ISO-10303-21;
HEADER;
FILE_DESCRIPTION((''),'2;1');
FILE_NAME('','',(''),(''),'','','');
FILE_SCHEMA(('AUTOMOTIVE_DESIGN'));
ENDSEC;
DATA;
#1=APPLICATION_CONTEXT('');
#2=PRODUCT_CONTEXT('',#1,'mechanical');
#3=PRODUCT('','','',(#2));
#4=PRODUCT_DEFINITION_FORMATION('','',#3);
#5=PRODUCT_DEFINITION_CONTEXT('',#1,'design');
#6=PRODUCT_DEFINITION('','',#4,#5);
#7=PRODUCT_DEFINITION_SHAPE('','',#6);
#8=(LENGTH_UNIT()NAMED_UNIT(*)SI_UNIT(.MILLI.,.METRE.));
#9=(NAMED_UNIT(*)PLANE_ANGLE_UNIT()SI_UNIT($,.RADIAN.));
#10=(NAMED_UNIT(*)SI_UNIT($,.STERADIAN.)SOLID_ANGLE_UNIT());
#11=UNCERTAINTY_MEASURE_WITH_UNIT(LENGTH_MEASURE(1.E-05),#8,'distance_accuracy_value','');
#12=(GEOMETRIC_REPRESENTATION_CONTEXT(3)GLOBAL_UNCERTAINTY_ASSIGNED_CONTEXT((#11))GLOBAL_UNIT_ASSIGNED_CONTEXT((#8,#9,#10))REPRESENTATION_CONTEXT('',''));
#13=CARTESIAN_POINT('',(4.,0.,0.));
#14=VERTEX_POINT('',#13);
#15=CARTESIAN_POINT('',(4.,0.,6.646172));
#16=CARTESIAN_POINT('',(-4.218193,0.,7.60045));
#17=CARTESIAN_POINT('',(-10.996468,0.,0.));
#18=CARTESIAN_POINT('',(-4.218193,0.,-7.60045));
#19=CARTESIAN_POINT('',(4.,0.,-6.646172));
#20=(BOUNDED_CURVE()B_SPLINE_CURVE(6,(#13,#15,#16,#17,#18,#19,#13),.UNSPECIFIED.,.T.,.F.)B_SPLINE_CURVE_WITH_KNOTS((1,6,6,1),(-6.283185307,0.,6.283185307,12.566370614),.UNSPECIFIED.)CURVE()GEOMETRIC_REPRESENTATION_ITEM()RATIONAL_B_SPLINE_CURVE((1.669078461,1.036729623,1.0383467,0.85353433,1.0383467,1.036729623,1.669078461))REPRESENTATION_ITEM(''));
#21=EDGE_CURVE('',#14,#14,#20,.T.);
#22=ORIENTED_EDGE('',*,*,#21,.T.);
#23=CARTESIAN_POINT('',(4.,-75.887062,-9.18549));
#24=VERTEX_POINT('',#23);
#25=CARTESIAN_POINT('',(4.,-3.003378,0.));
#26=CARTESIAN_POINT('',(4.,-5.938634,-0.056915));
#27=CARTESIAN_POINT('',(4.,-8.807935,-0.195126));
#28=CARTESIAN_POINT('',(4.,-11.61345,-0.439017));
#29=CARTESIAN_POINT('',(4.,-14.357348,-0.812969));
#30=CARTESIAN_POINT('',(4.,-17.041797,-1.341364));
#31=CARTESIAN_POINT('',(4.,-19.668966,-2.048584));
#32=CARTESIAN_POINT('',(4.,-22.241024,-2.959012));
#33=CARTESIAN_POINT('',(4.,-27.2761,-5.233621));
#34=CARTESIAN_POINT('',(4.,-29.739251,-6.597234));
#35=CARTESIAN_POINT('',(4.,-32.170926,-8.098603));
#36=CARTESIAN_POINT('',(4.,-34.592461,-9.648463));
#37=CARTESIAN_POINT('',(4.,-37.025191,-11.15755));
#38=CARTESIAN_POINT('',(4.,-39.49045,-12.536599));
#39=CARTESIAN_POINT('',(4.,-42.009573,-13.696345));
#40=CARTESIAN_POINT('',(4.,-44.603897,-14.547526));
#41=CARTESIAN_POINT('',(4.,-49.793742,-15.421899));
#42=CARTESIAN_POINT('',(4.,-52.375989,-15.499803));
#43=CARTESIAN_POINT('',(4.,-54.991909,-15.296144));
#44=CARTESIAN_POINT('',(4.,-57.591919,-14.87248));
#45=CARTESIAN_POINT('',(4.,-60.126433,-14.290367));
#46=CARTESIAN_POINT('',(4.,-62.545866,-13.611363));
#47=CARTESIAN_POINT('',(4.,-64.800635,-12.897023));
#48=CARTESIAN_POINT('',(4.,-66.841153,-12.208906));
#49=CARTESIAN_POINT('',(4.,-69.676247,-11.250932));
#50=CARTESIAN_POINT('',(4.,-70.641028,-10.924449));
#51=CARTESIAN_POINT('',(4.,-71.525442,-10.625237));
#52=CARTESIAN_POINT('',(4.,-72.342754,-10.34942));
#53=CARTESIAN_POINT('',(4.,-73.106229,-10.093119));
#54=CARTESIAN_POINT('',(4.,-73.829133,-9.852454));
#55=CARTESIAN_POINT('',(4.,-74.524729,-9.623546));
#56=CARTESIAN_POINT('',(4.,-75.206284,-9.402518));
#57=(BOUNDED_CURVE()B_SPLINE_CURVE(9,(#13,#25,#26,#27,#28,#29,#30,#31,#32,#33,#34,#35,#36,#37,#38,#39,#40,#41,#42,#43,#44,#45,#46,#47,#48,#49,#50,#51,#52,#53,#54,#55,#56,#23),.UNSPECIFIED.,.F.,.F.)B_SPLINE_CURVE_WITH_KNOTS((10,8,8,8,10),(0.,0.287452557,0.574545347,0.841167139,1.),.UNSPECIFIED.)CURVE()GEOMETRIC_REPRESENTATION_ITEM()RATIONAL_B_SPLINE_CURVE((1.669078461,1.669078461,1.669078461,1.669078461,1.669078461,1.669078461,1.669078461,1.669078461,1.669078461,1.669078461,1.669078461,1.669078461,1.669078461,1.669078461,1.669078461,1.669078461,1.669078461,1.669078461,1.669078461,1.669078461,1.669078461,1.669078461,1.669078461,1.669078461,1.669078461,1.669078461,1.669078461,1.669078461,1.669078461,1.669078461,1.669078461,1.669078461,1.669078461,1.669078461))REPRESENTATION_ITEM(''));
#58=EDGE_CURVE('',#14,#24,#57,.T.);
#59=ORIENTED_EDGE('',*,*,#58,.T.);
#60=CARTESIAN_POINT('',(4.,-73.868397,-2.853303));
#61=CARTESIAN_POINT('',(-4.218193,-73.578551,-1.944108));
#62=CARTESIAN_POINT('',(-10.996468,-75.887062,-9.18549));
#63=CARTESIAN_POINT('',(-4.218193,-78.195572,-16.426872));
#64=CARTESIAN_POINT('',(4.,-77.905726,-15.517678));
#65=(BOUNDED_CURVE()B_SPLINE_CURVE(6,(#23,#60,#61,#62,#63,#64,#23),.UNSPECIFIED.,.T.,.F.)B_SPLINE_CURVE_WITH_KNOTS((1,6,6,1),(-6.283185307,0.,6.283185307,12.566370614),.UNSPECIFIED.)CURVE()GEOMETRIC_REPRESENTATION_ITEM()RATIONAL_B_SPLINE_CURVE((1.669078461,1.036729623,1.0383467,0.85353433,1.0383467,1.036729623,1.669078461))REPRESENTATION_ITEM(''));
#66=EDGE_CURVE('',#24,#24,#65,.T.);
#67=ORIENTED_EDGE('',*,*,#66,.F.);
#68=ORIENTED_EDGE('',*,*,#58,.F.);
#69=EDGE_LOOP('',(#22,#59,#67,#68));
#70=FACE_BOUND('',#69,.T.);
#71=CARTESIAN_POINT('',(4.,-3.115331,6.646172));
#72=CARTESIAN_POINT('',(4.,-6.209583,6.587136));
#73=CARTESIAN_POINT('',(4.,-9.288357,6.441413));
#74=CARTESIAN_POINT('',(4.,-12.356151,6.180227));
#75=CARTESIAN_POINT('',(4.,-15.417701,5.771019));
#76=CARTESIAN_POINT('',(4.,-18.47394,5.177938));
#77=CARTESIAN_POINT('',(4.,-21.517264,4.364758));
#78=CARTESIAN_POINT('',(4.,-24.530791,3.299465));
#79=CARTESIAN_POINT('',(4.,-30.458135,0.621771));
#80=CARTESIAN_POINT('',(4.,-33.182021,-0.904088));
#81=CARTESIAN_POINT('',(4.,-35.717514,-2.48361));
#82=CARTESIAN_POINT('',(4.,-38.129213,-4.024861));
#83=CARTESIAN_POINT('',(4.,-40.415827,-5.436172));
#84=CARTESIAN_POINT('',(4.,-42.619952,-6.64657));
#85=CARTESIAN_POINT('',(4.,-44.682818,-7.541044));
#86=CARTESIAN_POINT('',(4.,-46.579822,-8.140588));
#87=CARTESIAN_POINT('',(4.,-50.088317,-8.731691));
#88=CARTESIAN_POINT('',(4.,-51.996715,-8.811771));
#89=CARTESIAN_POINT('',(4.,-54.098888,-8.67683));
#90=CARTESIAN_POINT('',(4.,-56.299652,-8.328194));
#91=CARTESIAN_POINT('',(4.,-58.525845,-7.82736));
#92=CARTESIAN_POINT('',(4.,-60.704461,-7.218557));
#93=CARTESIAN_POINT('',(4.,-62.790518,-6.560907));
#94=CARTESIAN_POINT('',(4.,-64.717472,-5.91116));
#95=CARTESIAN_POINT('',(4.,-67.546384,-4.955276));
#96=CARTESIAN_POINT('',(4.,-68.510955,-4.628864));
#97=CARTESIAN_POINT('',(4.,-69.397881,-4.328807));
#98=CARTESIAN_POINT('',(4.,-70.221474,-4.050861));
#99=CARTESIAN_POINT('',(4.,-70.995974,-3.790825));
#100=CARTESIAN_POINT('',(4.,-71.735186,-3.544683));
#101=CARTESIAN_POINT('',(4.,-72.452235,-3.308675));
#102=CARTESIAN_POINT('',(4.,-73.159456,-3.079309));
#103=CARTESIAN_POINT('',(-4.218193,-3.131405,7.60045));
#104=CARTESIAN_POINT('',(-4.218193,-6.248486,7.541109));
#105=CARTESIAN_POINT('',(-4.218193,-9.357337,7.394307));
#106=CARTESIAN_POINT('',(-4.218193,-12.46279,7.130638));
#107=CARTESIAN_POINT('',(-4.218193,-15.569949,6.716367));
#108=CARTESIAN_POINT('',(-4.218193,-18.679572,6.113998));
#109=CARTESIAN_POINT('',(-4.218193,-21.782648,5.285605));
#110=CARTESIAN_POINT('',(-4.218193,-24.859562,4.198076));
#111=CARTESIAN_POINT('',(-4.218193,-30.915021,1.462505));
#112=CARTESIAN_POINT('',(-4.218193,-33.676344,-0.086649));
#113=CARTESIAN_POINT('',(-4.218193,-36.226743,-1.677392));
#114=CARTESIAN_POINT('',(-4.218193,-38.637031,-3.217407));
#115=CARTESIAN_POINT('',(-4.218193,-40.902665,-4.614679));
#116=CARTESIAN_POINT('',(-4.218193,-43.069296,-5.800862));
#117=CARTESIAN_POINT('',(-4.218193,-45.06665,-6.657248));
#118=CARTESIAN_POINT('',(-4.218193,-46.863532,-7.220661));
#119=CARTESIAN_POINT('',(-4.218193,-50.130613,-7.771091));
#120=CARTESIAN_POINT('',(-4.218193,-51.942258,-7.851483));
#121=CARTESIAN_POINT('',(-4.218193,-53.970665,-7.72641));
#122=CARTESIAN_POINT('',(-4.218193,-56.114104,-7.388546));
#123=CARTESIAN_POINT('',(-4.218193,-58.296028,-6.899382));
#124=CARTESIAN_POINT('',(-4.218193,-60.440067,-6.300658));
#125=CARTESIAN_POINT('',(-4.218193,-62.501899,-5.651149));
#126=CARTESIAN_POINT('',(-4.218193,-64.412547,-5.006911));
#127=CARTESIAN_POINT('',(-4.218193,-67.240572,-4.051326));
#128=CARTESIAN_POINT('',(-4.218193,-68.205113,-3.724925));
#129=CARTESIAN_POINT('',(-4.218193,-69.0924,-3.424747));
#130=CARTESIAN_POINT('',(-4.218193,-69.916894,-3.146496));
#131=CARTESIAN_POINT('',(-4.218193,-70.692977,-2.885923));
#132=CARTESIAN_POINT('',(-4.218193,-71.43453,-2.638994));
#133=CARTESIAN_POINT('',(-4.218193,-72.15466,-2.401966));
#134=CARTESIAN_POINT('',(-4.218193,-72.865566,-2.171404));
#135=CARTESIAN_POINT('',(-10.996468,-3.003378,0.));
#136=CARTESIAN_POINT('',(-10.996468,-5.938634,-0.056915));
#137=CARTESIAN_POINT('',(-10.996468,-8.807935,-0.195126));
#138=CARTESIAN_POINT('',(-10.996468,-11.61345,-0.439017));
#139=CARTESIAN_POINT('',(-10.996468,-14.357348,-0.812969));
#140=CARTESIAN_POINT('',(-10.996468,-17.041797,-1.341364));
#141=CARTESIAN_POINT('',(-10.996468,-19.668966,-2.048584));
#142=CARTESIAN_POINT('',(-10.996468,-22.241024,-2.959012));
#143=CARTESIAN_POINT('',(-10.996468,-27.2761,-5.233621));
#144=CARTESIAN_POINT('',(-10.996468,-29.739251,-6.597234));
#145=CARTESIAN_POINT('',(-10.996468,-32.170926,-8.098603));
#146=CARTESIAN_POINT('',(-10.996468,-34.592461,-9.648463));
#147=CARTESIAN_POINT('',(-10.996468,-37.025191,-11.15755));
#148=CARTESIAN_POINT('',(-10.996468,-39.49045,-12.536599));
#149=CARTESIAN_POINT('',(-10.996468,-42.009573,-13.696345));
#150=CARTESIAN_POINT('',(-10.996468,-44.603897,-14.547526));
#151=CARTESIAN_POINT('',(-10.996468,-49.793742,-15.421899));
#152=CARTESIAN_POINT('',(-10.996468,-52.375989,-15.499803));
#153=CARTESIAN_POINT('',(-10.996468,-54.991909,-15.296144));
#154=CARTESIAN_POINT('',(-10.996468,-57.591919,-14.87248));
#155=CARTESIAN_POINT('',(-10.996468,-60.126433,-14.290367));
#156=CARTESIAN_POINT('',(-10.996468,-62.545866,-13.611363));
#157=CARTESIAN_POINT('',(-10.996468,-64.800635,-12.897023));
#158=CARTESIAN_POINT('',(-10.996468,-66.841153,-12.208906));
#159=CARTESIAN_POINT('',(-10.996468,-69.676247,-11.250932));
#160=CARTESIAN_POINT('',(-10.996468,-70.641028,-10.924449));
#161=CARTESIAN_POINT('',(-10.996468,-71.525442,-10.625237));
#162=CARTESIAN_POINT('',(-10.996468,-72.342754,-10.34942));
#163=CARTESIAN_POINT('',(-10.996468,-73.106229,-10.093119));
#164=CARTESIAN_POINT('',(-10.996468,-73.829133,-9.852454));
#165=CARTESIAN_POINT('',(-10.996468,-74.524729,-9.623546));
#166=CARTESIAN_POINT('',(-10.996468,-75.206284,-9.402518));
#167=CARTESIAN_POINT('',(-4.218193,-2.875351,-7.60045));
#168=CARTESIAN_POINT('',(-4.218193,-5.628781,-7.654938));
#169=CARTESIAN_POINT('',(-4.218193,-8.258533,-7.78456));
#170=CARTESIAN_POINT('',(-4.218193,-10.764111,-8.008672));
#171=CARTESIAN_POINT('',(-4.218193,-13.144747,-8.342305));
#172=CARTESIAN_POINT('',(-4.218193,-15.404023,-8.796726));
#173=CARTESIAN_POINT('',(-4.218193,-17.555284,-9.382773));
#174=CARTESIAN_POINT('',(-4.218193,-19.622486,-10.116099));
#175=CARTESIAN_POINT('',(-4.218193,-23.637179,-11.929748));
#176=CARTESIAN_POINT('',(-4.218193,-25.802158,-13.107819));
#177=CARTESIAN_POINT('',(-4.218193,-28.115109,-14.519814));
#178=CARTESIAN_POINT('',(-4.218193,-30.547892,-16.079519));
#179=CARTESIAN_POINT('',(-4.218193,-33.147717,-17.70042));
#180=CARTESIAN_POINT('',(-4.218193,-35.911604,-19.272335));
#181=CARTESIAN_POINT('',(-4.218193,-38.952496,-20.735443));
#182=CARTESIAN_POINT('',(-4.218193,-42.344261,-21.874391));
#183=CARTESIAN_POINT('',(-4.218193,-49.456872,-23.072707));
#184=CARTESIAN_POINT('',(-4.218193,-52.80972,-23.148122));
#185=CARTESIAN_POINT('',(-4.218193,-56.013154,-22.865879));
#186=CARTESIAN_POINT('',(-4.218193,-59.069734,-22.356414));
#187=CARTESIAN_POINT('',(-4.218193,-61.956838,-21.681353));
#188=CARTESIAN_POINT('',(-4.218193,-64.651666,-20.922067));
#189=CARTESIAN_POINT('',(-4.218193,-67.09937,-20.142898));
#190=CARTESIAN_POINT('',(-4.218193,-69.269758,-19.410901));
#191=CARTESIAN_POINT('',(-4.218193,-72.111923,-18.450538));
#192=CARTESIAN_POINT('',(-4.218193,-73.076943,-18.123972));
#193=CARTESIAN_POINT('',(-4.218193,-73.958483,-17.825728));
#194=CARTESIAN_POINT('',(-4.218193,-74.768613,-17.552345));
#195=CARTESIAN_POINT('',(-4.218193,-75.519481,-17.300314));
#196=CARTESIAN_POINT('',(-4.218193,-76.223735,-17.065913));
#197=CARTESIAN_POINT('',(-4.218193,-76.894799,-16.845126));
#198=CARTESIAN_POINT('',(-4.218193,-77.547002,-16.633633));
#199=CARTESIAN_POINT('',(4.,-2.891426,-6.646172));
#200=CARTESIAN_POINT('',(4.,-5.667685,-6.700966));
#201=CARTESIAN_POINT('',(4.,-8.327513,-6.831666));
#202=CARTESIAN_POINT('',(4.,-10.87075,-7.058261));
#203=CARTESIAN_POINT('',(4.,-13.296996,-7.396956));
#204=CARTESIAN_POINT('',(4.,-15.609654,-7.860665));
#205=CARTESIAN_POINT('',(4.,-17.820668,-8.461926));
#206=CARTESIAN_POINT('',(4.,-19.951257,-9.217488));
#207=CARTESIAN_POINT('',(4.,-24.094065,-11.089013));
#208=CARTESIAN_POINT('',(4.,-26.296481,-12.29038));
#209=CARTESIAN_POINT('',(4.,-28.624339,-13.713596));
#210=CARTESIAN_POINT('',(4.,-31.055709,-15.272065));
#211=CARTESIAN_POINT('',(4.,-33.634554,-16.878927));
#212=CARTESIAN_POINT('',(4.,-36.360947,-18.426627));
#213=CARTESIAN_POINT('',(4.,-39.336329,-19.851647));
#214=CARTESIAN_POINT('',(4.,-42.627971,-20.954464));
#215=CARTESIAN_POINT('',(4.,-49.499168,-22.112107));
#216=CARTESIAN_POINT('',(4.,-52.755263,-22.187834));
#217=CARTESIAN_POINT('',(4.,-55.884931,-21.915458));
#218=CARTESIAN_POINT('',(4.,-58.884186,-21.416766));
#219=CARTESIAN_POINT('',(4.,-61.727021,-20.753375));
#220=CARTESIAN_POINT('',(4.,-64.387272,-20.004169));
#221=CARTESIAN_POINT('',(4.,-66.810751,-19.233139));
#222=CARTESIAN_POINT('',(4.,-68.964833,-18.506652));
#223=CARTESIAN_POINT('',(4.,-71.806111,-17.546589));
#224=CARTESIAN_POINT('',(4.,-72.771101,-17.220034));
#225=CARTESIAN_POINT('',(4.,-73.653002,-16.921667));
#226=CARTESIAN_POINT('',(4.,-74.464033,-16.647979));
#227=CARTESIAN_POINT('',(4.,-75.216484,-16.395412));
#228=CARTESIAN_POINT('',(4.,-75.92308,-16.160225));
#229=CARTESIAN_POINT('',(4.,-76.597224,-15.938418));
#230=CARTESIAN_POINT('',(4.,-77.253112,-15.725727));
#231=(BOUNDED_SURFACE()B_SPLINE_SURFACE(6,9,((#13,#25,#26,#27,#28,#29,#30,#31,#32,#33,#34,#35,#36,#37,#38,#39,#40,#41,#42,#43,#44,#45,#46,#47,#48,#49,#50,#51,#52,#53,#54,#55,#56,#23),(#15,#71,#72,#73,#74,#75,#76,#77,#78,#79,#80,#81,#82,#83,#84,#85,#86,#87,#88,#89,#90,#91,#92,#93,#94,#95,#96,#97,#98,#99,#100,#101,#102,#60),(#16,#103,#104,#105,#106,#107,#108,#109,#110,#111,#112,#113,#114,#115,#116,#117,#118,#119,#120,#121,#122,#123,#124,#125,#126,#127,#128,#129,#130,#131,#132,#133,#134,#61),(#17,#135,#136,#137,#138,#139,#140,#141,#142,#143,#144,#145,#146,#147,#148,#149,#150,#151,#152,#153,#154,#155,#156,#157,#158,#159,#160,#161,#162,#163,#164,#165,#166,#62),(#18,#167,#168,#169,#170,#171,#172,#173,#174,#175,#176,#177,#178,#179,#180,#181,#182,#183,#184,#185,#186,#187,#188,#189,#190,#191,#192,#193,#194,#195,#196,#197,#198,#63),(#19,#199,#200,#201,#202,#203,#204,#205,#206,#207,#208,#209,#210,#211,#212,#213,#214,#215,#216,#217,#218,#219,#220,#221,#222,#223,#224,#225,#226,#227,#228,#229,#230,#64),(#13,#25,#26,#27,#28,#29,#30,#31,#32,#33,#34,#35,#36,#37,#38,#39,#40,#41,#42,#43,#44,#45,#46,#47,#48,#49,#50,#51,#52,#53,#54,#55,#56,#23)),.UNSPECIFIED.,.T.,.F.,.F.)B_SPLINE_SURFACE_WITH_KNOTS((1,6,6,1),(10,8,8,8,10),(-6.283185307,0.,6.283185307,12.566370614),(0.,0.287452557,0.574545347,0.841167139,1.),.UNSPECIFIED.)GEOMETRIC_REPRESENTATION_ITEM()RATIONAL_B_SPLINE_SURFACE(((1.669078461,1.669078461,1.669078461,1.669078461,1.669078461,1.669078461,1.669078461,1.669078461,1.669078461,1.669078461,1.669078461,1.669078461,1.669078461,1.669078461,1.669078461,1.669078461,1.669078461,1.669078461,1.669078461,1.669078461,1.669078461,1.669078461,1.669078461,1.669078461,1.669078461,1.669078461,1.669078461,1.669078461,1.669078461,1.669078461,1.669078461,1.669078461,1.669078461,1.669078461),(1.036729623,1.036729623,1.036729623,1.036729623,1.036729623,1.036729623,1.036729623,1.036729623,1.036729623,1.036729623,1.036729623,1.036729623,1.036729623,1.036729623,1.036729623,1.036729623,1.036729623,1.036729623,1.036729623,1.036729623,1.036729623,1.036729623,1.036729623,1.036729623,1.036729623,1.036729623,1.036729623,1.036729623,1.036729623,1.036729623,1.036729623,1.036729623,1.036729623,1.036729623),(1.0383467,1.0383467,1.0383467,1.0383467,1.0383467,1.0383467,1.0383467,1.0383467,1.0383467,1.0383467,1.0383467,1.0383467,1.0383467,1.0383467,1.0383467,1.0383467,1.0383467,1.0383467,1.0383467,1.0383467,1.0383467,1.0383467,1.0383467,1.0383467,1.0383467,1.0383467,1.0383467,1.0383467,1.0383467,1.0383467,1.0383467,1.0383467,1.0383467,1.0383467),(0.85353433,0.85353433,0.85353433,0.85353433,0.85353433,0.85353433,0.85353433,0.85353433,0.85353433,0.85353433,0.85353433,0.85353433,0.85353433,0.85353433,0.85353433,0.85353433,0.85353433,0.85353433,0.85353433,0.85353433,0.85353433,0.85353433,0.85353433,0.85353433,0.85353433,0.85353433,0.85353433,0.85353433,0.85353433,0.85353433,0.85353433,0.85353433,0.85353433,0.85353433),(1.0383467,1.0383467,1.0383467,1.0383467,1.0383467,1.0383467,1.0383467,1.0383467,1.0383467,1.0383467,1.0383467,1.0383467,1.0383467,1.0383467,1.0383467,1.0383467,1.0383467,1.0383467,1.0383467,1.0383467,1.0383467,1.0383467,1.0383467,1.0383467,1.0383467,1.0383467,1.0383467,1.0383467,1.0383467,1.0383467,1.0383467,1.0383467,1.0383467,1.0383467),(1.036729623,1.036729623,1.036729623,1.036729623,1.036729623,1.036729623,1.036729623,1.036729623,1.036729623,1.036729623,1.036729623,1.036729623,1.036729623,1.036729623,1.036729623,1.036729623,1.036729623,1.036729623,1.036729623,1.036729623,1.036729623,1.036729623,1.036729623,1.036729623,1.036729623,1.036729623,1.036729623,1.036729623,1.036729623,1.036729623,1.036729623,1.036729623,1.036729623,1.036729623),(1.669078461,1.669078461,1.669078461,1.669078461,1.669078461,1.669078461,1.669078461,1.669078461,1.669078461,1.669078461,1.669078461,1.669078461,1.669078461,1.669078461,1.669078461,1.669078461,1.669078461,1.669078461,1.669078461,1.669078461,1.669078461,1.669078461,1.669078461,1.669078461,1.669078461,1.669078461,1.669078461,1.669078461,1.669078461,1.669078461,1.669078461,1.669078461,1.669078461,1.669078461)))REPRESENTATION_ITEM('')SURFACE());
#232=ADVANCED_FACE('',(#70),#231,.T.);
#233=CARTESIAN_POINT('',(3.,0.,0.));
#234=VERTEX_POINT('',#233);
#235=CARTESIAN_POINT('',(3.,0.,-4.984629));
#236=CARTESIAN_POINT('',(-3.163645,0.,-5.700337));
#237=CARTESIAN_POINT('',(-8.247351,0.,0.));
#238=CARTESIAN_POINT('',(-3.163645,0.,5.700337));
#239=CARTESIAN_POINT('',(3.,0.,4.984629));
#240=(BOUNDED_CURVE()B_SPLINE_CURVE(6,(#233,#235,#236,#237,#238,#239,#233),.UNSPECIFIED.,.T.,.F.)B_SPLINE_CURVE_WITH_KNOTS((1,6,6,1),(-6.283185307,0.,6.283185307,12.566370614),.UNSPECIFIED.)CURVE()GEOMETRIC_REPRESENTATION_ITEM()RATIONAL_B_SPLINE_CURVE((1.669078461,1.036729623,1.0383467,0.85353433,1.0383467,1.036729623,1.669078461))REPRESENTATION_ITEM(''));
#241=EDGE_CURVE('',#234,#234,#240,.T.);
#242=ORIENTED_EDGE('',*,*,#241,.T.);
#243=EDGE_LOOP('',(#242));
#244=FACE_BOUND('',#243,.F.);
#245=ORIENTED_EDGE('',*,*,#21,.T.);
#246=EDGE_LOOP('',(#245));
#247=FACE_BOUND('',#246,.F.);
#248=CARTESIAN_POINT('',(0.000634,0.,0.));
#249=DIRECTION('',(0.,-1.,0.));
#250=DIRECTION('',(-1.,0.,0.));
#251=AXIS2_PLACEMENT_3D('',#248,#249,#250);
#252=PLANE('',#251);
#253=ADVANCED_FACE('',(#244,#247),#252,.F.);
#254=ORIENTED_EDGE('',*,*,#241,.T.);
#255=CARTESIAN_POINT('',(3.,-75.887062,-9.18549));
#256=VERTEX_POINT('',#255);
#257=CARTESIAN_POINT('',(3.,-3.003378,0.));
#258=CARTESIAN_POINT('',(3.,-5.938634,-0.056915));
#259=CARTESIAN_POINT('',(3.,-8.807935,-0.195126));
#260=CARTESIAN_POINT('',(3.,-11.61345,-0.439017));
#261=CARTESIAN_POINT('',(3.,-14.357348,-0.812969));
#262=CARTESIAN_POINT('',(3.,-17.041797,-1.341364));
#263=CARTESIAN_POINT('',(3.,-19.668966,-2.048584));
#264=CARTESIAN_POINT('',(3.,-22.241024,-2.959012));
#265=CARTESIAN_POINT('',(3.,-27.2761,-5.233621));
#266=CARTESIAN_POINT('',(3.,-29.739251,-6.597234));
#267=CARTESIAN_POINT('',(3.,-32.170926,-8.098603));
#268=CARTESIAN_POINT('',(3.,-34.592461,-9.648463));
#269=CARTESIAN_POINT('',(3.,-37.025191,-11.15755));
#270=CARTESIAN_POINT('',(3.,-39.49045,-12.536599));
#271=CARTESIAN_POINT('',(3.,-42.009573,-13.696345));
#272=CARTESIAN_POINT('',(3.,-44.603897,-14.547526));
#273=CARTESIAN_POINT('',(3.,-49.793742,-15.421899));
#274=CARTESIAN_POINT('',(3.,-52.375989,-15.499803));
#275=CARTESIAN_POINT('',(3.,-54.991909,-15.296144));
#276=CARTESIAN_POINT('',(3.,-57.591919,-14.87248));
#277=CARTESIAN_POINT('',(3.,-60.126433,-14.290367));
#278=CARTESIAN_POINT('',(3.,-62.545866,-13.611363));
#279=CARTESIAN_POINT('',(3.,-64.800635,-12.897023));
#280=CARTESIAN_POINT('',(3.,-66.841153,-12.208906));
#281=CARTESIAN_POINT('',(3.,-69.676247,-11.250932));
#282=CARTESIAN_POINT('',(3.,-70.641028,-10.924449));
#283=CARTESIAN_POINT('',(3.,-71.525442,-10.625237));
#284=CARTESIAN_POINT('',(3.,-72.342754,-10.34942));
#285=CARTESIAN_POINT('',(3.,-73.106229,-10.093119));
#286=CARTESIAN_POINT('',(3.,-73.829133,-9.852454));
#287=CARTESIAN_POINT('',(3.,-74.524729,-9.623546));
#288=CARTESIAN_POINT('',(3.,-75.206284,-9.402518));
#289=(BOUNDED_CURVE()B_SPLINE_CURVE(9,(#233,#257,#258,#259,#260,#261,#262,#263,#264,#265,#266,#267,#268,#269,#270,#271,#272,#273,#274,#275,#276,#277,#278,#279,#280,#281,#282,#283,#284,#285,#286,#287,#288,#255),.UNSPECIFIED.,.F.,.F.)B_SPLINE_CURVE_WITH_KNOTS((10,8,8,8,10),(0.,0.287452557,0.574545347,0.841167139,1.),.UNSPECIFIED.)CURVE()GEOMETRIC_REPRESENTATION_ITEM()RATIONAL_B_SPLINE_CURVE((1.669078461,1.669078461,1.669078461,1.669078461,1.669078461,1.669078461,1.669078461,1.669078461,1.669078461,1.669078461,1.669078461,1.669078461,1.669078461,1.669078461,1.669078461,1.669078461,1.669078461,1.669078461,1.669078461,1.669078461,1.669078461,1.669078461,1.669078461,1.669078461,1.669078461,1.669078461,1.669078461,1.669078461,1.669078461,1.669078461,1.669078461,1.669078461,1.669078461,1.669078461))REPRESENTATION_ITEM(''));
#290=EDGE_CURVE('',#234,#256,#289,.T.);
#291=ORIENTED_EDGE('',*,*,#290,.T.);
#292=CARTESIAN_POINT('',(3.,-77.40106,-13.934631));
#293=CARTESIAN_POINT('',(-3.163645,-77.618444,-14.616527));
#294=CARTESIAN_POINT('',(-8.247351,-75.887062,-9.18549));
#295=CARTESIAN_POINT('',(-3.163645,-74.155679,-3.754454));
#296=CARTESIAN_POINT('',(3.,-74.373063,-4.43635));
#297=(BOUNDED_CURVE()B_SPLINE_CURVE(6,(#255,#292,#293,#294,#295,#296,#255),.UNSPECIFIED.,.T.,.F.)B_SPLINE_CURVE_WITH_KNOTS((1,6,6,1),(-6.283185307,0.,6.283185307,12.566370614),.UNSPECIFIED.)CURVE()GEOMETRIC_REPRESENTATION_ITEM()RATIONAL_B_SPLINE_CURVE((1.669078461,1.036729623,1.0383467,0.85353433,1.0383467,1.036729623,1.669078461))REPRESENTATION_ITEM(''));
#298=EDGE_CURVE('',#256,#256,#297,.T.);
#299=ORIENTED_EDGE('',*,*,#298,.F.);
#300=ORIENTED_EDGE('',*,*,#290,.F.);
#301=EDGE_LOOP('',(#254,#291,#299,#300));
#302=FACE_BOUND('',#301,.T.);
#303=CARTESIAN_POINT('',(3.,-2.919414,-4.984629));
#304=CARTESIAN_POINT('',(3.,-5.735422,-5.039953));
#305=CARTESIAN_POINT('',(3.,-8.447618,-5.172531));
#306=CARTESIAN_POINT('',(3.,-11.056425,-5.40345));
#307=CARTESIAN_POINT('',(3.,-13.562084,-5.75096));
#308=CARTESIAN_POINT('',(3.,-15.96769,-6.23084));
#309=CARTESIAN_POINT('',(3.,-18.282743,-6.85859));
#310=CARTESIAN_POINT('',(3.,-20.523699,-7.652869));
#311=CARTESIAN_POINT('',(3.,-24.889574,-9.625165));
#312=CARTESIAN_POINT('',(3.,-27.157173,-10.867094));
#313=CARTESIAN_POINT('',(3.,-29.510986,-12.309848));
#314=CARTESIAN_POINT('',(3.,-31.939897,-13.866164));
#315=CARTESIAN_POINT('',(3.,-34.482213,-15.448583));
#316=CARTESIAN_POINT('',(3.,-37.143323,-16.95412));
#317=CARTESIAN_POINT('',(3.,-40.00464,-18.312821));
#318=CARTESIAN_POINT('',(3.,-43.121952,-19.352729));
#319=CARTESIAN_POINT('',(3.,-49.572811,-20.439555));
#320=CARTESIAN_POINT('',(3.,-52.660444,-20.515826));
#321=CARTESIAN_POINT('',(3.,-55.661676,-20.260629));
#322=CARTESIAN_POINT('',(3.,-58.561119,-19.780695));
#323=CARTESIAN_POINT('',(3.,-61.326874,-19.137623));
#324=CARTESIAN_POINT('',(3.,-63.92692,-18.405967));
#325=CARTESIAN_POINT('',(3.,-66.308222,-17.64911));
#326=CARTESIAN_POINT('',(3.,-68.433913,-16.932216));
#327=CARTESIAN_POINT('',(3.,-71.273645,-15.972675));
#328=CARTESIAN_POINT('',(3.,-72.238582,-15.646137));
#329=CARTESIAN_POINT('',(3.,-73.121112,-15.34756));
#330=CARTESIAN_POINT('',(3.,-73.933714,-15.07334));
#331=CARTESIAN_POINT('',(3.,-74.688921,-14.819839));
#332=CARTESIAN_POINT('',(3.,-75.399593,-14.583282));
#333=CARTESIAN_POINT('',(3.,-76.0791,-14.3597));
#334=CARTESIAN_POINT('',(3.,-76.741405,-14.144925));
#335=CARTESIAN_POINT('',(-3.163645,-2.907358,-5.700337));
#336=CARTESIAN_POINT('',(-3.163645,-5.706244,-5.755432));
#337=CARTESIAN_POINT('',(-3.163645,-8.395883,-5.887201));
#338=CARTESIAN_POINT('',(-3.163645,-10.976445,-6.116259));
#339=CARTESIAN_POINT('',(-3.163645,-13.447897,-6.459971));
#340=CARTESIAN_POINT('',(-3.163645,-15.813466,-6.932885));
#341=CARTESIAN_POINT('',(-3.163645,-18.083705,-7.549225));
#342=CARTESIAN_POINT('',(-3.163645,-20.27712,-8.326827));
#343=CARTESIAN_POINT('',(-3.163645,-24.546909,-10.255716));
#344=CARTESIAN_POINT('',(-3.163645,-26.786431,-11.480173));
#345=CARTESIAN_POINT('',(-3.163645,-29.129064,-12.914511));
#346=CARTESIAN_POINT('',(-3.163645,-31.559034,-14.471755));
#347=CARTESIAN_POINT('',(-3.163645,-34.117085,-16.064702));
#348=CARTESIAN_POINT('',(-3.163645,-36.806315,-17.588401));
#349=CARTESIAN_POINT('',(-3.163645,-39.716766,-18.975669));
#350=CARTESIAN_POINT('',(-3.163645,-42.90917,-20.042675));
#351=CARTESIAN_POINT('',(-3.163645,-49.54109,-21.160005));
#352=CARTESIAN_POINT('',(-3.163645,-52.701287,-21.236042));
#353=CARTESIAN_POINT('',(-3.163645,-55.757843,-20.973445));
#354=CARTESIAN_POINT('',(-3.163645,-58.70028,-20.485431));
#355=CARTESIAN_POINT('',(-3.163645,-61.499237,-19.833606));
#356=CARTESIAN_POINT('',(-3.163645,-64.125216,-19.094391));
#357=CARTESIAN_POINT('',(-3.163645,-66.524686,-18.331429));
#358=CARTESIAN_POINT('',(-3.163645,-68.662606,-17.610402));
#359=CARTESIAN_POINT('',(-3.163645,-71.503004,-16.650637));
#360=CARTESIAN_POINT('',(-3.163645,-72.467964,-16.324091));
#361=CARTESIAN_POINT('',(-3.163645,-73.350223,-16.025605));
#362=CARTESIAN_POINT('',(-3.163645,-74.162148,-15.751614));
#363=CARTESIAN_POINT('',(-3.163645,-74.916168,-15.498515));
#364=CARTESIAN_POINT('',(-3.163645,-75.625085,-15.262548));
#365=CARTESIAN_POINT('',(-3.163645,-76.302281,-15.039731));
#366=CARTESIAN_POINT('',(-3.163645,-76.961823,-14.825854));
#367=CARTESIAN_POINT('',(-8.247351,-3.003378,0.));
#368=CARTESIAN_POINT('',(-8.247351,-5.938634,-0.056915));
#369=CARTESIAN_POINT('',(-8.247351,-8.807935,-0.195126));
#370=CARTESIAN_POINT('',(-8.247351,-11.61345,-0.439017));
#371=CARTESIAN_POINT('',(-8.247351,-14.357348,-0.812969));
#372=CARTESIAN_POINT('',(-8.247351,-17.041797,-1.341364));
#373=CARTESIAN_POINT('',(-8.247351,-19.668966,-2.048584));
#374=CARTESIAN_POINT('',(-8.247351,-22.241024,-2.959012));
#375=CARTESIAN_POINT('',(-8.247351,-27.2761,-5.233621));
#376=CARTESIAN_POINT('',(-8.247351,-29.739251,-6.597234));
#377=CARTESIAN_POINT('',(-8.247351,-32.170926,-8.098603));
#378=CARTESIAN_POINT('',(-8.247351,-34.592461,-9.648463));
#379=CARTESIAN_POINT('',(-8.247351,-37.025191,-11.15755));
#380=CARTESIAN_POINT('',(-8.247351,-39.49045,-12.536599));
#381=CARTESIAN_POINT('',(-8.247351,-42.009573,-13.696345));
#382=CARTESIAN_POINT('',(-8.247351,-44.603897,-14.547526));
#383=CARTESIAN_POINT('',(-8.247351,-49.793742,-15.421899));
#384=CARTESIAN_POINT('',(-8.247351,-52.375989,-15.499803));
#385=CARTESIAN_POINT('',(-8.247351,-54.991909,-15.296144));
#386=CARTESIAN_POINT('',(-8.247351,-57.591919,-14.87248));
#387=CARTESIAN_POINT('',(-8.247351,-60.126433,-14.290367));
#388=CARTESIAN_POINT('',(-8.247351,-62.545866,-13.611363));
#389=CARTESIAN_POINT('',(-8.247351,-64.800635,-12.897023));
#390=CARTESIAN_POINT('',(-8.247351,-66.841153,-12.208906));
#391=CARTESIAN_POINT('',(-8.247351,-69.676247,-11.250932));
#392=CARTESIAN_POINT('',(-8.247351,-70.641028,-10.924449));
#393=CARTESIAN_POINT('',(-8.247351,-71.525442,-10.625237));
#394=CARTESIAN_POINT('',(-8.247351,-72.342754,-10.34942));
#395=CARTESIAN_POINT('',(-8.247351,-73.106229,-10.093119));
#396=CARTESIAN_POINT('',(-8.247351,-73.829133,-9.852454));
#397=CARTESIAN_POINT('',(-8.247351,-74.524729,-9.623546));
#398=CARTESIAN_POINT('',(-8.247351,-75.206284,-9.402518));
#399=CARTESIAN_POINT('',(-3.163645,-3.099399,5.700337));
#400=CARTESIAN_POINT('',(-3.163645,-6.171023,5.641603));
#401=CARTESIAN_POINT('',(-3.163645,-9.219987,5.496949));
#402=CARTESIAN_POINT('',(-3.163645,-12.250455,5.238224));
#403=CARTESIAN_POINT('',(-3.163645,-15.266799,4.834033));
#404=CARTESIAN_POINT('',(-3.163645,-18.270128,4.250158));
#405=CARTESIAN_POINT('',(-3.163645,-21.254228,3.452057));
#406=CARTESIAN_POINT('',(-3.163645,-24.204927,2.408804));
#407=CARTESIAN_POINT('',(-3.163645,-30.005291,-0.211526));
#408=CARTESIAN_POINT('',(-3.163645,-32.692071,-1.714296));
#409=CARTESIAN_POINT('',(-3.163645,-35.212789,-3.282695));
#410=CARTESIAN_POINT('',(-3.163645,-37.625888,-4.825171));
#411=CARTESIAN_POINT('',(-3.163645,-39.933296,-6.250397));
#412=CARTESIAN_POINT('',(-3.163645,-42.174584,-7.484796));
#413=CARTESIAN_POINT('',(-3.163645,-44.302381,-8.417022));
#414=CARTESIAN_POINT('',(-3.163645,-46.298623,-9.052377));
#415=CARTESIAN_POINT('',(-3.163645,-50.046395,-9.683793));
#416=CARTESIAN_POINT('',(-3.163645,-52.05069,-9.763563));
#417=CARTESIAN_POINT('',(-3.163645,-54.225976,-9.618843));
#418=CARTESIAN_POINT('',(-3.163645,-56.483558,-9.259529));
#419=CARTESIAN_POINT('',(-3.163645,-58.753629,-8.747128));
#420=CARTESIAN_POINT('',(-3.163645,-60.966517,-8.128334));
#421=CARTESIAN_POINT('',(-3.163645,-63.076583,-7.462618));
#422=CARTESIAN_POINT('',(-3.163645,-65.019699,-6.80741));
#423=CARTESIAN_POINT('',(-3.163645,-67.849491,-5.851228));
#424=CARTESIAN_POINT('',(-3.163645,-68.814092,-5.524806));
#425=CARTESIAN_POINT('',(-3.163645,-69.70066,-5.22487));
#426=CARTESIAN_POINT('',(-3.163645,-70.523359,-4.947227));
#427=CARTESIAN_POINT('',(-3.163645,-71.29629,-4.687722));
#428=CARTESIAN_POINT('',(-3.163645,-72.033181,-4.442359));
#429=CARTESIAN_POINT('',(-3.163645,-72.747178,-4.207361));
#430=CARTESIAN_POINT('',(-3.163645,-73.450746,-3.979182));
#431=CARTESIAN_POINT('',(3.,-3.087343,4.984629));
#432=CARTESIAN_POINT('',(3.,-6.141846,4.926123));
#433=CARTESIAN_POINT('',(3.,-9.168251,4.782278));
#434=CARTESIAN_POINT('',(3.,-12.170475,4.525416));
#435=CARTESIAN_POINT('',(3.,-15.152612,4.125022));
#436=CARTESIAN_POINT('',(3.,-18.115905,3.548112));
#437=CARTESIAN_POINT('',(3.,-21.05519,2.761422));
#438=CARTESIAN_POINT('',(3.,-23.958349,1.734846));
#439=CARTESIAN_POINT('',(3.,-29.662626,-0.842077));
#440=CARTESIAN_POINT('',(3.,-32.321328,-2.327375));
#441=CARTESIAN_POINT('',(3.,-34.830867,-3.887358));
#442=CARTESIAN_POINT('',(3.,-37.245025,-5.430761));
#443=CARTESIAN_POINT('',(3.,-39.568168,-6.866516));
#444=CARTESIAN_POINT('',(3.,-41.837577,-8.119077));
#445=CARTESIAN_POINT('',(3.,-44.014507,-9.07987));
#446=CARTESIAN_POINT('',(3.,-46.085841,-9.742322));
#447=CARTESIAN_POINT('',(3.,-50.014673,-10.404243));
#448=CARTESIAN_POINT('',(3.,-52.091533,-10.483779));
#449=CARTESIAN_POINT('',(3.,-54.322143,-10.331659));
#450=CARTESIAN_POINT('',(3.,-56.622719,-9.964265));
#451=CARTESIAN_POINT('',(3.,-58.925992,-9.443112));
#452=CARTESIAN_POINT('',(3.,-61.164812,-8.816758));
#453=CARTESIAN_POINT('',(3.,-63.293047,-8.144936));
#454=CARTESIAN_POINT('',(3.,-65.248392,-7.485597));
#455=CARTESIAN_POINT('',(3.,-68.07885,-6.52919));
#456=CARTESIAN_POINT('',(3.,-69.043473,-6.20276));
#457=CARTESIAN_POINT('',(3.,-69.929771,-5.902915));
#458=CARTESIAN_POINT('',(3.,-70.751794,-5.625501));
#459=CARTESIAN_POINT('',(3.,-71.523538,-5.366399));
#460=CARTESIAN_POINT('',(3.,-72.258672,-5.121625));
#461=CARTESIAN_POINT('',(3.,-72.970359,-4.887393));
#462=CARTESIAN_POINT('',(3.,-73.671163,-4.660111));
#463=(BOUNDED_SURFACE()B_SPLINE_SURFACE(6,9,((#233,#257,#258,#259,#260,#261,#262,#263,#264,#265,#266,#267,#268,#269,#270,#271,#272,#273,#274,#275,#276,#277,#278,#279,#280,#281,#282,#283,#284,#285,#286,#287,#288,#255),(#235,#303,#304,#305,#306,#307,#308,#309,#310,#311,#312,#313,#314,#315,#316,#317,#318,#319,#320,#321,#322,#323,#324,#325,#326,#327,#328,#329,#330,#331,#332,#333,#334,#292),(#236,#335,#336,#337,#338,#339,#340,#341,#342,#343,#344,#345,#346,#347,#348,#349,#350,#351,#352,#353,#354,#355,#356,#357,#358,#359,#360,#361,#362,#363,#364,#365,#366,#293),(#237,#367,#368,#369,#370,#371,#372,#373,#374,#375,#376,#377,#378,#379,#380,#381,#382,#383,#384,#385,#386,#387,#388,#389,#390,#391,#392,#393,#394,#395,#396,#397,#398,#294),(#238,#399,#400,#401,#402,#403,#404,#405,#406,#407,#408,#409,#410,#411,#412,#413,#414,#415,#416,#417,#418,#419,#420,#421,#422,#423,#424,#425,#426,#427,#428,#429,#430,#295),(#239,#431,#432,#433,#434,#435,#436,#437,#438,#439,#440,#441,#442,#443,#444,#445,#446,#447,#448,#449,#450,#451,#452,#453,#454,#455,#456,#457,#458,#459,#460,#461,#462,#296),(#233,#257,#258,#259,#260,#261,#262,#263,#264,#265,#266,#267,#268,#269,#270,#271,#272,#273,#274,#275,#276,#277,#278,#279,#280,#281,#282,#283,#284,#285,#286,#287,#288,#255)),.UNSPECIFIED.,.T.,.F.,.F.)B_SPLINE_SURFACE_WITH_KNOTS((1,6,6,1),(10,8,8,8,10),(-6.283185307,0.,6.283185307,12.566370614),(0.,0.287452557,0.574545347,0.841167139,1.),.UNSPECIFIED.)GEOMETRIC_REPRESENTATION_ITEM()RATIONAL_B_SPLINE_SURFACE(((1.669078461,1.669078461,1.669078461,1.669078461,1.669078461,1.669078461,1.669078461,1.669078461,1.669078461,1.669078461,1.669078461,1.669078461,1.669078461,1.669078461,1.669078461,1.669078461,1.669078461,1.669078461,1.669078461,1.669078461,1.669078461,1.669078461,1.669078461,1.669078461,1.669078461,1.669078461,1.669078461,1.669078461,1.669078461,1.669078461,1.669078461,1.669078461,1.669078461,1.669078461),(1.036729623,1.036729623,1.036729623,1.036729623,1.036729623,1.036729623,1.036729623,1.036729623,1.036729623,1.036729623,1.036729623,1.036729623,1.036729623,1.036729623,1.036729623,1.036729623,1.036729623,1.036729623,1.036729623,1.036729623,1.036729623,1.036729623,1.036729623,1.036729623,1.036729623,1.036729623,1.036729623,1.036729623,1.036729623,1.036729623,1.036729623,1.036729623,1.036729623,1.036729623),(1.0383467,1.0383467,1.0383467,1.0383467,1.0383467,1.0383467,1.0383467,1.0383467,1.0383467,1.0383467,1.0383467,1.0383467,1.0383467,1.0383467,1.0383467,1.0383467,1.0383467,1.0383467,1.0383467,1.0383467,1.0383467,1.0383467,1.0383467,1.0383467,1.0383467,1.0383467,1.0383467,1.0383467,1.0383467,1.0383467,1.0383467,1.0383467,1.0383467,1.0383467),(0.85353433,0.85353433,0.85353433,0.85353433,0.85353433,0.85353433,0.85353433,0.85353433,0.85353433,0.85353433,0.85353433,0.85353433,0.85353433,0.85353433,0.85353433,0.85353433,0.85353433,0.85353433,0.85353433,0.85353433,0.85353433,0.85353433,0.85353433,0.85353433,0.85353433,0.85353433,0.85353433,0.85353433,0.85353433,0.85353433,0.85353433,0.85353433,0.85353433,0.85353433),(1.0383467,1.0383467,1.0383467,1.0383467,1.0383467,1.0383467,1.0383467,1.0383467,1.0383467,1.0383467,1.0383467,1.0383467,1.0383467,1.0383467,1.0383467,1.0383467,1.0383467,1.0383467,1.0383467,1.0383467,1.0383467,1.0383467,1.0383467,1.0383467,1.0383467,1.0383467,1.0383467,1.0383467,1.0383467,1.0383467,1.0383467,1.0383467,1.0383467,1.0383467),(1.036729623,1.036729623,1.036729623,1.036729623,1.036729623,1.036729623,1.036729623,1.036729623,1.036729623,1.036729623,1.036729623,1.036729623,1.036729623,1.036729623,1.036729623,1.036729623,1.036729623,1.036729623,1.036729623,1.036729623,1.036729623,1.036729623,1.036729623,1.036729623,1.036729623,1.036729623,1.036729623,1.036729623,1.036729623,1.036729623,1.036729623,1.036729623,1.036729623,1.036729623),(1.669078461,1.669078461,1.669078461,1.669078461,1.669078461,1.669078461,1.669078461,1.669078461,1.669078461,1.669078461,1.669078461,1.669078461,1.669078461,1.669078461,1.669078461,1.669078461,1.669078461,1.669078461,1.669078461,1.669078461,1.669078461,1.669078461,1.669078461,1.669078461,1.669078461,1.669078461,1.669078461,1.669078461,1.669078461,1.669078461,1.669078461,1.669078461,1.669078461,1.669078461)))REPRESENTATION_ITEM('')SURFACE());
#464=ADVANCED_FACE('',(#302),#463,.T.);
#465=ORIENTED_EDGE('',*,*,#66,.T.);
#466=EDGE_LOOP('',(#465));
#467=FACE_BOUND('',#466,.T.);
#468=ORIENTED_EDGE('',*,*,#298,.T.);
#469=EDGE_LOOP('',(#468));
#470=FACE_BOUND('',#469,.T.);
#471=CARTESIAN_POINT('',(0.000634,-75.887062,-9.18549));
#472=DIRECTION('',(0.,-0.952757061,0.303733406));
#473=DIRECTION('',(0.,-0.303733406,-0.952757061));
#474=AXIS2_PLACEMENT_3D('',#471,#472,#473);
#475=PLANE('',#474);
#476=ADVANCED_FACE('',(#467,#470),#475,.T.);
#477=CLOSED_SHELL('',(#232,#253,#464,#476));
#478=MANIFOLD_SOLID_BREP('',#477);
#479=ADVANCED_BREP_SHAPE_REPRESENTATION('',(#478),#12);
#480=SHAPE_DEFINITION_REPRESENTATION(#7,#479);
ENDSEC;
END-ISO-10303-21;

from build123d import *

# Parameters (mm, degrees)
F0_R   = 4
F0_R_2 = 3


with BuildPart() as f2:
    # F2: sweep along a path in F1
    with BuildLine(Plane.YZ) as f2_path:
        add(Plane.YZ * Edge.make_bspline(
            [(0, 0), (-9.0101351961, 0), (-25.3852009458, -1.3651000007), (-45.6433281149, -19.3374642866), (-68.3490940175, -11.709171411), (-73.8447290223, -9.8365739562), (-75.8870616555, -9.1854901984)],
            knots=[0, 0, 0, 0, 0.2874525568, 0.5745453467, 0.8411671393, 1, 1, 1, 1], degree=3))
    # F0 (on Front) → F2 (sweep)
    with BuildSketch(Plane.XZ):
        Circle(F0_R)
        Circle(F0_R_2, mode=Mode.SUBTRACT)
    sweep(path=f2_path.line)


solid = f2.part
